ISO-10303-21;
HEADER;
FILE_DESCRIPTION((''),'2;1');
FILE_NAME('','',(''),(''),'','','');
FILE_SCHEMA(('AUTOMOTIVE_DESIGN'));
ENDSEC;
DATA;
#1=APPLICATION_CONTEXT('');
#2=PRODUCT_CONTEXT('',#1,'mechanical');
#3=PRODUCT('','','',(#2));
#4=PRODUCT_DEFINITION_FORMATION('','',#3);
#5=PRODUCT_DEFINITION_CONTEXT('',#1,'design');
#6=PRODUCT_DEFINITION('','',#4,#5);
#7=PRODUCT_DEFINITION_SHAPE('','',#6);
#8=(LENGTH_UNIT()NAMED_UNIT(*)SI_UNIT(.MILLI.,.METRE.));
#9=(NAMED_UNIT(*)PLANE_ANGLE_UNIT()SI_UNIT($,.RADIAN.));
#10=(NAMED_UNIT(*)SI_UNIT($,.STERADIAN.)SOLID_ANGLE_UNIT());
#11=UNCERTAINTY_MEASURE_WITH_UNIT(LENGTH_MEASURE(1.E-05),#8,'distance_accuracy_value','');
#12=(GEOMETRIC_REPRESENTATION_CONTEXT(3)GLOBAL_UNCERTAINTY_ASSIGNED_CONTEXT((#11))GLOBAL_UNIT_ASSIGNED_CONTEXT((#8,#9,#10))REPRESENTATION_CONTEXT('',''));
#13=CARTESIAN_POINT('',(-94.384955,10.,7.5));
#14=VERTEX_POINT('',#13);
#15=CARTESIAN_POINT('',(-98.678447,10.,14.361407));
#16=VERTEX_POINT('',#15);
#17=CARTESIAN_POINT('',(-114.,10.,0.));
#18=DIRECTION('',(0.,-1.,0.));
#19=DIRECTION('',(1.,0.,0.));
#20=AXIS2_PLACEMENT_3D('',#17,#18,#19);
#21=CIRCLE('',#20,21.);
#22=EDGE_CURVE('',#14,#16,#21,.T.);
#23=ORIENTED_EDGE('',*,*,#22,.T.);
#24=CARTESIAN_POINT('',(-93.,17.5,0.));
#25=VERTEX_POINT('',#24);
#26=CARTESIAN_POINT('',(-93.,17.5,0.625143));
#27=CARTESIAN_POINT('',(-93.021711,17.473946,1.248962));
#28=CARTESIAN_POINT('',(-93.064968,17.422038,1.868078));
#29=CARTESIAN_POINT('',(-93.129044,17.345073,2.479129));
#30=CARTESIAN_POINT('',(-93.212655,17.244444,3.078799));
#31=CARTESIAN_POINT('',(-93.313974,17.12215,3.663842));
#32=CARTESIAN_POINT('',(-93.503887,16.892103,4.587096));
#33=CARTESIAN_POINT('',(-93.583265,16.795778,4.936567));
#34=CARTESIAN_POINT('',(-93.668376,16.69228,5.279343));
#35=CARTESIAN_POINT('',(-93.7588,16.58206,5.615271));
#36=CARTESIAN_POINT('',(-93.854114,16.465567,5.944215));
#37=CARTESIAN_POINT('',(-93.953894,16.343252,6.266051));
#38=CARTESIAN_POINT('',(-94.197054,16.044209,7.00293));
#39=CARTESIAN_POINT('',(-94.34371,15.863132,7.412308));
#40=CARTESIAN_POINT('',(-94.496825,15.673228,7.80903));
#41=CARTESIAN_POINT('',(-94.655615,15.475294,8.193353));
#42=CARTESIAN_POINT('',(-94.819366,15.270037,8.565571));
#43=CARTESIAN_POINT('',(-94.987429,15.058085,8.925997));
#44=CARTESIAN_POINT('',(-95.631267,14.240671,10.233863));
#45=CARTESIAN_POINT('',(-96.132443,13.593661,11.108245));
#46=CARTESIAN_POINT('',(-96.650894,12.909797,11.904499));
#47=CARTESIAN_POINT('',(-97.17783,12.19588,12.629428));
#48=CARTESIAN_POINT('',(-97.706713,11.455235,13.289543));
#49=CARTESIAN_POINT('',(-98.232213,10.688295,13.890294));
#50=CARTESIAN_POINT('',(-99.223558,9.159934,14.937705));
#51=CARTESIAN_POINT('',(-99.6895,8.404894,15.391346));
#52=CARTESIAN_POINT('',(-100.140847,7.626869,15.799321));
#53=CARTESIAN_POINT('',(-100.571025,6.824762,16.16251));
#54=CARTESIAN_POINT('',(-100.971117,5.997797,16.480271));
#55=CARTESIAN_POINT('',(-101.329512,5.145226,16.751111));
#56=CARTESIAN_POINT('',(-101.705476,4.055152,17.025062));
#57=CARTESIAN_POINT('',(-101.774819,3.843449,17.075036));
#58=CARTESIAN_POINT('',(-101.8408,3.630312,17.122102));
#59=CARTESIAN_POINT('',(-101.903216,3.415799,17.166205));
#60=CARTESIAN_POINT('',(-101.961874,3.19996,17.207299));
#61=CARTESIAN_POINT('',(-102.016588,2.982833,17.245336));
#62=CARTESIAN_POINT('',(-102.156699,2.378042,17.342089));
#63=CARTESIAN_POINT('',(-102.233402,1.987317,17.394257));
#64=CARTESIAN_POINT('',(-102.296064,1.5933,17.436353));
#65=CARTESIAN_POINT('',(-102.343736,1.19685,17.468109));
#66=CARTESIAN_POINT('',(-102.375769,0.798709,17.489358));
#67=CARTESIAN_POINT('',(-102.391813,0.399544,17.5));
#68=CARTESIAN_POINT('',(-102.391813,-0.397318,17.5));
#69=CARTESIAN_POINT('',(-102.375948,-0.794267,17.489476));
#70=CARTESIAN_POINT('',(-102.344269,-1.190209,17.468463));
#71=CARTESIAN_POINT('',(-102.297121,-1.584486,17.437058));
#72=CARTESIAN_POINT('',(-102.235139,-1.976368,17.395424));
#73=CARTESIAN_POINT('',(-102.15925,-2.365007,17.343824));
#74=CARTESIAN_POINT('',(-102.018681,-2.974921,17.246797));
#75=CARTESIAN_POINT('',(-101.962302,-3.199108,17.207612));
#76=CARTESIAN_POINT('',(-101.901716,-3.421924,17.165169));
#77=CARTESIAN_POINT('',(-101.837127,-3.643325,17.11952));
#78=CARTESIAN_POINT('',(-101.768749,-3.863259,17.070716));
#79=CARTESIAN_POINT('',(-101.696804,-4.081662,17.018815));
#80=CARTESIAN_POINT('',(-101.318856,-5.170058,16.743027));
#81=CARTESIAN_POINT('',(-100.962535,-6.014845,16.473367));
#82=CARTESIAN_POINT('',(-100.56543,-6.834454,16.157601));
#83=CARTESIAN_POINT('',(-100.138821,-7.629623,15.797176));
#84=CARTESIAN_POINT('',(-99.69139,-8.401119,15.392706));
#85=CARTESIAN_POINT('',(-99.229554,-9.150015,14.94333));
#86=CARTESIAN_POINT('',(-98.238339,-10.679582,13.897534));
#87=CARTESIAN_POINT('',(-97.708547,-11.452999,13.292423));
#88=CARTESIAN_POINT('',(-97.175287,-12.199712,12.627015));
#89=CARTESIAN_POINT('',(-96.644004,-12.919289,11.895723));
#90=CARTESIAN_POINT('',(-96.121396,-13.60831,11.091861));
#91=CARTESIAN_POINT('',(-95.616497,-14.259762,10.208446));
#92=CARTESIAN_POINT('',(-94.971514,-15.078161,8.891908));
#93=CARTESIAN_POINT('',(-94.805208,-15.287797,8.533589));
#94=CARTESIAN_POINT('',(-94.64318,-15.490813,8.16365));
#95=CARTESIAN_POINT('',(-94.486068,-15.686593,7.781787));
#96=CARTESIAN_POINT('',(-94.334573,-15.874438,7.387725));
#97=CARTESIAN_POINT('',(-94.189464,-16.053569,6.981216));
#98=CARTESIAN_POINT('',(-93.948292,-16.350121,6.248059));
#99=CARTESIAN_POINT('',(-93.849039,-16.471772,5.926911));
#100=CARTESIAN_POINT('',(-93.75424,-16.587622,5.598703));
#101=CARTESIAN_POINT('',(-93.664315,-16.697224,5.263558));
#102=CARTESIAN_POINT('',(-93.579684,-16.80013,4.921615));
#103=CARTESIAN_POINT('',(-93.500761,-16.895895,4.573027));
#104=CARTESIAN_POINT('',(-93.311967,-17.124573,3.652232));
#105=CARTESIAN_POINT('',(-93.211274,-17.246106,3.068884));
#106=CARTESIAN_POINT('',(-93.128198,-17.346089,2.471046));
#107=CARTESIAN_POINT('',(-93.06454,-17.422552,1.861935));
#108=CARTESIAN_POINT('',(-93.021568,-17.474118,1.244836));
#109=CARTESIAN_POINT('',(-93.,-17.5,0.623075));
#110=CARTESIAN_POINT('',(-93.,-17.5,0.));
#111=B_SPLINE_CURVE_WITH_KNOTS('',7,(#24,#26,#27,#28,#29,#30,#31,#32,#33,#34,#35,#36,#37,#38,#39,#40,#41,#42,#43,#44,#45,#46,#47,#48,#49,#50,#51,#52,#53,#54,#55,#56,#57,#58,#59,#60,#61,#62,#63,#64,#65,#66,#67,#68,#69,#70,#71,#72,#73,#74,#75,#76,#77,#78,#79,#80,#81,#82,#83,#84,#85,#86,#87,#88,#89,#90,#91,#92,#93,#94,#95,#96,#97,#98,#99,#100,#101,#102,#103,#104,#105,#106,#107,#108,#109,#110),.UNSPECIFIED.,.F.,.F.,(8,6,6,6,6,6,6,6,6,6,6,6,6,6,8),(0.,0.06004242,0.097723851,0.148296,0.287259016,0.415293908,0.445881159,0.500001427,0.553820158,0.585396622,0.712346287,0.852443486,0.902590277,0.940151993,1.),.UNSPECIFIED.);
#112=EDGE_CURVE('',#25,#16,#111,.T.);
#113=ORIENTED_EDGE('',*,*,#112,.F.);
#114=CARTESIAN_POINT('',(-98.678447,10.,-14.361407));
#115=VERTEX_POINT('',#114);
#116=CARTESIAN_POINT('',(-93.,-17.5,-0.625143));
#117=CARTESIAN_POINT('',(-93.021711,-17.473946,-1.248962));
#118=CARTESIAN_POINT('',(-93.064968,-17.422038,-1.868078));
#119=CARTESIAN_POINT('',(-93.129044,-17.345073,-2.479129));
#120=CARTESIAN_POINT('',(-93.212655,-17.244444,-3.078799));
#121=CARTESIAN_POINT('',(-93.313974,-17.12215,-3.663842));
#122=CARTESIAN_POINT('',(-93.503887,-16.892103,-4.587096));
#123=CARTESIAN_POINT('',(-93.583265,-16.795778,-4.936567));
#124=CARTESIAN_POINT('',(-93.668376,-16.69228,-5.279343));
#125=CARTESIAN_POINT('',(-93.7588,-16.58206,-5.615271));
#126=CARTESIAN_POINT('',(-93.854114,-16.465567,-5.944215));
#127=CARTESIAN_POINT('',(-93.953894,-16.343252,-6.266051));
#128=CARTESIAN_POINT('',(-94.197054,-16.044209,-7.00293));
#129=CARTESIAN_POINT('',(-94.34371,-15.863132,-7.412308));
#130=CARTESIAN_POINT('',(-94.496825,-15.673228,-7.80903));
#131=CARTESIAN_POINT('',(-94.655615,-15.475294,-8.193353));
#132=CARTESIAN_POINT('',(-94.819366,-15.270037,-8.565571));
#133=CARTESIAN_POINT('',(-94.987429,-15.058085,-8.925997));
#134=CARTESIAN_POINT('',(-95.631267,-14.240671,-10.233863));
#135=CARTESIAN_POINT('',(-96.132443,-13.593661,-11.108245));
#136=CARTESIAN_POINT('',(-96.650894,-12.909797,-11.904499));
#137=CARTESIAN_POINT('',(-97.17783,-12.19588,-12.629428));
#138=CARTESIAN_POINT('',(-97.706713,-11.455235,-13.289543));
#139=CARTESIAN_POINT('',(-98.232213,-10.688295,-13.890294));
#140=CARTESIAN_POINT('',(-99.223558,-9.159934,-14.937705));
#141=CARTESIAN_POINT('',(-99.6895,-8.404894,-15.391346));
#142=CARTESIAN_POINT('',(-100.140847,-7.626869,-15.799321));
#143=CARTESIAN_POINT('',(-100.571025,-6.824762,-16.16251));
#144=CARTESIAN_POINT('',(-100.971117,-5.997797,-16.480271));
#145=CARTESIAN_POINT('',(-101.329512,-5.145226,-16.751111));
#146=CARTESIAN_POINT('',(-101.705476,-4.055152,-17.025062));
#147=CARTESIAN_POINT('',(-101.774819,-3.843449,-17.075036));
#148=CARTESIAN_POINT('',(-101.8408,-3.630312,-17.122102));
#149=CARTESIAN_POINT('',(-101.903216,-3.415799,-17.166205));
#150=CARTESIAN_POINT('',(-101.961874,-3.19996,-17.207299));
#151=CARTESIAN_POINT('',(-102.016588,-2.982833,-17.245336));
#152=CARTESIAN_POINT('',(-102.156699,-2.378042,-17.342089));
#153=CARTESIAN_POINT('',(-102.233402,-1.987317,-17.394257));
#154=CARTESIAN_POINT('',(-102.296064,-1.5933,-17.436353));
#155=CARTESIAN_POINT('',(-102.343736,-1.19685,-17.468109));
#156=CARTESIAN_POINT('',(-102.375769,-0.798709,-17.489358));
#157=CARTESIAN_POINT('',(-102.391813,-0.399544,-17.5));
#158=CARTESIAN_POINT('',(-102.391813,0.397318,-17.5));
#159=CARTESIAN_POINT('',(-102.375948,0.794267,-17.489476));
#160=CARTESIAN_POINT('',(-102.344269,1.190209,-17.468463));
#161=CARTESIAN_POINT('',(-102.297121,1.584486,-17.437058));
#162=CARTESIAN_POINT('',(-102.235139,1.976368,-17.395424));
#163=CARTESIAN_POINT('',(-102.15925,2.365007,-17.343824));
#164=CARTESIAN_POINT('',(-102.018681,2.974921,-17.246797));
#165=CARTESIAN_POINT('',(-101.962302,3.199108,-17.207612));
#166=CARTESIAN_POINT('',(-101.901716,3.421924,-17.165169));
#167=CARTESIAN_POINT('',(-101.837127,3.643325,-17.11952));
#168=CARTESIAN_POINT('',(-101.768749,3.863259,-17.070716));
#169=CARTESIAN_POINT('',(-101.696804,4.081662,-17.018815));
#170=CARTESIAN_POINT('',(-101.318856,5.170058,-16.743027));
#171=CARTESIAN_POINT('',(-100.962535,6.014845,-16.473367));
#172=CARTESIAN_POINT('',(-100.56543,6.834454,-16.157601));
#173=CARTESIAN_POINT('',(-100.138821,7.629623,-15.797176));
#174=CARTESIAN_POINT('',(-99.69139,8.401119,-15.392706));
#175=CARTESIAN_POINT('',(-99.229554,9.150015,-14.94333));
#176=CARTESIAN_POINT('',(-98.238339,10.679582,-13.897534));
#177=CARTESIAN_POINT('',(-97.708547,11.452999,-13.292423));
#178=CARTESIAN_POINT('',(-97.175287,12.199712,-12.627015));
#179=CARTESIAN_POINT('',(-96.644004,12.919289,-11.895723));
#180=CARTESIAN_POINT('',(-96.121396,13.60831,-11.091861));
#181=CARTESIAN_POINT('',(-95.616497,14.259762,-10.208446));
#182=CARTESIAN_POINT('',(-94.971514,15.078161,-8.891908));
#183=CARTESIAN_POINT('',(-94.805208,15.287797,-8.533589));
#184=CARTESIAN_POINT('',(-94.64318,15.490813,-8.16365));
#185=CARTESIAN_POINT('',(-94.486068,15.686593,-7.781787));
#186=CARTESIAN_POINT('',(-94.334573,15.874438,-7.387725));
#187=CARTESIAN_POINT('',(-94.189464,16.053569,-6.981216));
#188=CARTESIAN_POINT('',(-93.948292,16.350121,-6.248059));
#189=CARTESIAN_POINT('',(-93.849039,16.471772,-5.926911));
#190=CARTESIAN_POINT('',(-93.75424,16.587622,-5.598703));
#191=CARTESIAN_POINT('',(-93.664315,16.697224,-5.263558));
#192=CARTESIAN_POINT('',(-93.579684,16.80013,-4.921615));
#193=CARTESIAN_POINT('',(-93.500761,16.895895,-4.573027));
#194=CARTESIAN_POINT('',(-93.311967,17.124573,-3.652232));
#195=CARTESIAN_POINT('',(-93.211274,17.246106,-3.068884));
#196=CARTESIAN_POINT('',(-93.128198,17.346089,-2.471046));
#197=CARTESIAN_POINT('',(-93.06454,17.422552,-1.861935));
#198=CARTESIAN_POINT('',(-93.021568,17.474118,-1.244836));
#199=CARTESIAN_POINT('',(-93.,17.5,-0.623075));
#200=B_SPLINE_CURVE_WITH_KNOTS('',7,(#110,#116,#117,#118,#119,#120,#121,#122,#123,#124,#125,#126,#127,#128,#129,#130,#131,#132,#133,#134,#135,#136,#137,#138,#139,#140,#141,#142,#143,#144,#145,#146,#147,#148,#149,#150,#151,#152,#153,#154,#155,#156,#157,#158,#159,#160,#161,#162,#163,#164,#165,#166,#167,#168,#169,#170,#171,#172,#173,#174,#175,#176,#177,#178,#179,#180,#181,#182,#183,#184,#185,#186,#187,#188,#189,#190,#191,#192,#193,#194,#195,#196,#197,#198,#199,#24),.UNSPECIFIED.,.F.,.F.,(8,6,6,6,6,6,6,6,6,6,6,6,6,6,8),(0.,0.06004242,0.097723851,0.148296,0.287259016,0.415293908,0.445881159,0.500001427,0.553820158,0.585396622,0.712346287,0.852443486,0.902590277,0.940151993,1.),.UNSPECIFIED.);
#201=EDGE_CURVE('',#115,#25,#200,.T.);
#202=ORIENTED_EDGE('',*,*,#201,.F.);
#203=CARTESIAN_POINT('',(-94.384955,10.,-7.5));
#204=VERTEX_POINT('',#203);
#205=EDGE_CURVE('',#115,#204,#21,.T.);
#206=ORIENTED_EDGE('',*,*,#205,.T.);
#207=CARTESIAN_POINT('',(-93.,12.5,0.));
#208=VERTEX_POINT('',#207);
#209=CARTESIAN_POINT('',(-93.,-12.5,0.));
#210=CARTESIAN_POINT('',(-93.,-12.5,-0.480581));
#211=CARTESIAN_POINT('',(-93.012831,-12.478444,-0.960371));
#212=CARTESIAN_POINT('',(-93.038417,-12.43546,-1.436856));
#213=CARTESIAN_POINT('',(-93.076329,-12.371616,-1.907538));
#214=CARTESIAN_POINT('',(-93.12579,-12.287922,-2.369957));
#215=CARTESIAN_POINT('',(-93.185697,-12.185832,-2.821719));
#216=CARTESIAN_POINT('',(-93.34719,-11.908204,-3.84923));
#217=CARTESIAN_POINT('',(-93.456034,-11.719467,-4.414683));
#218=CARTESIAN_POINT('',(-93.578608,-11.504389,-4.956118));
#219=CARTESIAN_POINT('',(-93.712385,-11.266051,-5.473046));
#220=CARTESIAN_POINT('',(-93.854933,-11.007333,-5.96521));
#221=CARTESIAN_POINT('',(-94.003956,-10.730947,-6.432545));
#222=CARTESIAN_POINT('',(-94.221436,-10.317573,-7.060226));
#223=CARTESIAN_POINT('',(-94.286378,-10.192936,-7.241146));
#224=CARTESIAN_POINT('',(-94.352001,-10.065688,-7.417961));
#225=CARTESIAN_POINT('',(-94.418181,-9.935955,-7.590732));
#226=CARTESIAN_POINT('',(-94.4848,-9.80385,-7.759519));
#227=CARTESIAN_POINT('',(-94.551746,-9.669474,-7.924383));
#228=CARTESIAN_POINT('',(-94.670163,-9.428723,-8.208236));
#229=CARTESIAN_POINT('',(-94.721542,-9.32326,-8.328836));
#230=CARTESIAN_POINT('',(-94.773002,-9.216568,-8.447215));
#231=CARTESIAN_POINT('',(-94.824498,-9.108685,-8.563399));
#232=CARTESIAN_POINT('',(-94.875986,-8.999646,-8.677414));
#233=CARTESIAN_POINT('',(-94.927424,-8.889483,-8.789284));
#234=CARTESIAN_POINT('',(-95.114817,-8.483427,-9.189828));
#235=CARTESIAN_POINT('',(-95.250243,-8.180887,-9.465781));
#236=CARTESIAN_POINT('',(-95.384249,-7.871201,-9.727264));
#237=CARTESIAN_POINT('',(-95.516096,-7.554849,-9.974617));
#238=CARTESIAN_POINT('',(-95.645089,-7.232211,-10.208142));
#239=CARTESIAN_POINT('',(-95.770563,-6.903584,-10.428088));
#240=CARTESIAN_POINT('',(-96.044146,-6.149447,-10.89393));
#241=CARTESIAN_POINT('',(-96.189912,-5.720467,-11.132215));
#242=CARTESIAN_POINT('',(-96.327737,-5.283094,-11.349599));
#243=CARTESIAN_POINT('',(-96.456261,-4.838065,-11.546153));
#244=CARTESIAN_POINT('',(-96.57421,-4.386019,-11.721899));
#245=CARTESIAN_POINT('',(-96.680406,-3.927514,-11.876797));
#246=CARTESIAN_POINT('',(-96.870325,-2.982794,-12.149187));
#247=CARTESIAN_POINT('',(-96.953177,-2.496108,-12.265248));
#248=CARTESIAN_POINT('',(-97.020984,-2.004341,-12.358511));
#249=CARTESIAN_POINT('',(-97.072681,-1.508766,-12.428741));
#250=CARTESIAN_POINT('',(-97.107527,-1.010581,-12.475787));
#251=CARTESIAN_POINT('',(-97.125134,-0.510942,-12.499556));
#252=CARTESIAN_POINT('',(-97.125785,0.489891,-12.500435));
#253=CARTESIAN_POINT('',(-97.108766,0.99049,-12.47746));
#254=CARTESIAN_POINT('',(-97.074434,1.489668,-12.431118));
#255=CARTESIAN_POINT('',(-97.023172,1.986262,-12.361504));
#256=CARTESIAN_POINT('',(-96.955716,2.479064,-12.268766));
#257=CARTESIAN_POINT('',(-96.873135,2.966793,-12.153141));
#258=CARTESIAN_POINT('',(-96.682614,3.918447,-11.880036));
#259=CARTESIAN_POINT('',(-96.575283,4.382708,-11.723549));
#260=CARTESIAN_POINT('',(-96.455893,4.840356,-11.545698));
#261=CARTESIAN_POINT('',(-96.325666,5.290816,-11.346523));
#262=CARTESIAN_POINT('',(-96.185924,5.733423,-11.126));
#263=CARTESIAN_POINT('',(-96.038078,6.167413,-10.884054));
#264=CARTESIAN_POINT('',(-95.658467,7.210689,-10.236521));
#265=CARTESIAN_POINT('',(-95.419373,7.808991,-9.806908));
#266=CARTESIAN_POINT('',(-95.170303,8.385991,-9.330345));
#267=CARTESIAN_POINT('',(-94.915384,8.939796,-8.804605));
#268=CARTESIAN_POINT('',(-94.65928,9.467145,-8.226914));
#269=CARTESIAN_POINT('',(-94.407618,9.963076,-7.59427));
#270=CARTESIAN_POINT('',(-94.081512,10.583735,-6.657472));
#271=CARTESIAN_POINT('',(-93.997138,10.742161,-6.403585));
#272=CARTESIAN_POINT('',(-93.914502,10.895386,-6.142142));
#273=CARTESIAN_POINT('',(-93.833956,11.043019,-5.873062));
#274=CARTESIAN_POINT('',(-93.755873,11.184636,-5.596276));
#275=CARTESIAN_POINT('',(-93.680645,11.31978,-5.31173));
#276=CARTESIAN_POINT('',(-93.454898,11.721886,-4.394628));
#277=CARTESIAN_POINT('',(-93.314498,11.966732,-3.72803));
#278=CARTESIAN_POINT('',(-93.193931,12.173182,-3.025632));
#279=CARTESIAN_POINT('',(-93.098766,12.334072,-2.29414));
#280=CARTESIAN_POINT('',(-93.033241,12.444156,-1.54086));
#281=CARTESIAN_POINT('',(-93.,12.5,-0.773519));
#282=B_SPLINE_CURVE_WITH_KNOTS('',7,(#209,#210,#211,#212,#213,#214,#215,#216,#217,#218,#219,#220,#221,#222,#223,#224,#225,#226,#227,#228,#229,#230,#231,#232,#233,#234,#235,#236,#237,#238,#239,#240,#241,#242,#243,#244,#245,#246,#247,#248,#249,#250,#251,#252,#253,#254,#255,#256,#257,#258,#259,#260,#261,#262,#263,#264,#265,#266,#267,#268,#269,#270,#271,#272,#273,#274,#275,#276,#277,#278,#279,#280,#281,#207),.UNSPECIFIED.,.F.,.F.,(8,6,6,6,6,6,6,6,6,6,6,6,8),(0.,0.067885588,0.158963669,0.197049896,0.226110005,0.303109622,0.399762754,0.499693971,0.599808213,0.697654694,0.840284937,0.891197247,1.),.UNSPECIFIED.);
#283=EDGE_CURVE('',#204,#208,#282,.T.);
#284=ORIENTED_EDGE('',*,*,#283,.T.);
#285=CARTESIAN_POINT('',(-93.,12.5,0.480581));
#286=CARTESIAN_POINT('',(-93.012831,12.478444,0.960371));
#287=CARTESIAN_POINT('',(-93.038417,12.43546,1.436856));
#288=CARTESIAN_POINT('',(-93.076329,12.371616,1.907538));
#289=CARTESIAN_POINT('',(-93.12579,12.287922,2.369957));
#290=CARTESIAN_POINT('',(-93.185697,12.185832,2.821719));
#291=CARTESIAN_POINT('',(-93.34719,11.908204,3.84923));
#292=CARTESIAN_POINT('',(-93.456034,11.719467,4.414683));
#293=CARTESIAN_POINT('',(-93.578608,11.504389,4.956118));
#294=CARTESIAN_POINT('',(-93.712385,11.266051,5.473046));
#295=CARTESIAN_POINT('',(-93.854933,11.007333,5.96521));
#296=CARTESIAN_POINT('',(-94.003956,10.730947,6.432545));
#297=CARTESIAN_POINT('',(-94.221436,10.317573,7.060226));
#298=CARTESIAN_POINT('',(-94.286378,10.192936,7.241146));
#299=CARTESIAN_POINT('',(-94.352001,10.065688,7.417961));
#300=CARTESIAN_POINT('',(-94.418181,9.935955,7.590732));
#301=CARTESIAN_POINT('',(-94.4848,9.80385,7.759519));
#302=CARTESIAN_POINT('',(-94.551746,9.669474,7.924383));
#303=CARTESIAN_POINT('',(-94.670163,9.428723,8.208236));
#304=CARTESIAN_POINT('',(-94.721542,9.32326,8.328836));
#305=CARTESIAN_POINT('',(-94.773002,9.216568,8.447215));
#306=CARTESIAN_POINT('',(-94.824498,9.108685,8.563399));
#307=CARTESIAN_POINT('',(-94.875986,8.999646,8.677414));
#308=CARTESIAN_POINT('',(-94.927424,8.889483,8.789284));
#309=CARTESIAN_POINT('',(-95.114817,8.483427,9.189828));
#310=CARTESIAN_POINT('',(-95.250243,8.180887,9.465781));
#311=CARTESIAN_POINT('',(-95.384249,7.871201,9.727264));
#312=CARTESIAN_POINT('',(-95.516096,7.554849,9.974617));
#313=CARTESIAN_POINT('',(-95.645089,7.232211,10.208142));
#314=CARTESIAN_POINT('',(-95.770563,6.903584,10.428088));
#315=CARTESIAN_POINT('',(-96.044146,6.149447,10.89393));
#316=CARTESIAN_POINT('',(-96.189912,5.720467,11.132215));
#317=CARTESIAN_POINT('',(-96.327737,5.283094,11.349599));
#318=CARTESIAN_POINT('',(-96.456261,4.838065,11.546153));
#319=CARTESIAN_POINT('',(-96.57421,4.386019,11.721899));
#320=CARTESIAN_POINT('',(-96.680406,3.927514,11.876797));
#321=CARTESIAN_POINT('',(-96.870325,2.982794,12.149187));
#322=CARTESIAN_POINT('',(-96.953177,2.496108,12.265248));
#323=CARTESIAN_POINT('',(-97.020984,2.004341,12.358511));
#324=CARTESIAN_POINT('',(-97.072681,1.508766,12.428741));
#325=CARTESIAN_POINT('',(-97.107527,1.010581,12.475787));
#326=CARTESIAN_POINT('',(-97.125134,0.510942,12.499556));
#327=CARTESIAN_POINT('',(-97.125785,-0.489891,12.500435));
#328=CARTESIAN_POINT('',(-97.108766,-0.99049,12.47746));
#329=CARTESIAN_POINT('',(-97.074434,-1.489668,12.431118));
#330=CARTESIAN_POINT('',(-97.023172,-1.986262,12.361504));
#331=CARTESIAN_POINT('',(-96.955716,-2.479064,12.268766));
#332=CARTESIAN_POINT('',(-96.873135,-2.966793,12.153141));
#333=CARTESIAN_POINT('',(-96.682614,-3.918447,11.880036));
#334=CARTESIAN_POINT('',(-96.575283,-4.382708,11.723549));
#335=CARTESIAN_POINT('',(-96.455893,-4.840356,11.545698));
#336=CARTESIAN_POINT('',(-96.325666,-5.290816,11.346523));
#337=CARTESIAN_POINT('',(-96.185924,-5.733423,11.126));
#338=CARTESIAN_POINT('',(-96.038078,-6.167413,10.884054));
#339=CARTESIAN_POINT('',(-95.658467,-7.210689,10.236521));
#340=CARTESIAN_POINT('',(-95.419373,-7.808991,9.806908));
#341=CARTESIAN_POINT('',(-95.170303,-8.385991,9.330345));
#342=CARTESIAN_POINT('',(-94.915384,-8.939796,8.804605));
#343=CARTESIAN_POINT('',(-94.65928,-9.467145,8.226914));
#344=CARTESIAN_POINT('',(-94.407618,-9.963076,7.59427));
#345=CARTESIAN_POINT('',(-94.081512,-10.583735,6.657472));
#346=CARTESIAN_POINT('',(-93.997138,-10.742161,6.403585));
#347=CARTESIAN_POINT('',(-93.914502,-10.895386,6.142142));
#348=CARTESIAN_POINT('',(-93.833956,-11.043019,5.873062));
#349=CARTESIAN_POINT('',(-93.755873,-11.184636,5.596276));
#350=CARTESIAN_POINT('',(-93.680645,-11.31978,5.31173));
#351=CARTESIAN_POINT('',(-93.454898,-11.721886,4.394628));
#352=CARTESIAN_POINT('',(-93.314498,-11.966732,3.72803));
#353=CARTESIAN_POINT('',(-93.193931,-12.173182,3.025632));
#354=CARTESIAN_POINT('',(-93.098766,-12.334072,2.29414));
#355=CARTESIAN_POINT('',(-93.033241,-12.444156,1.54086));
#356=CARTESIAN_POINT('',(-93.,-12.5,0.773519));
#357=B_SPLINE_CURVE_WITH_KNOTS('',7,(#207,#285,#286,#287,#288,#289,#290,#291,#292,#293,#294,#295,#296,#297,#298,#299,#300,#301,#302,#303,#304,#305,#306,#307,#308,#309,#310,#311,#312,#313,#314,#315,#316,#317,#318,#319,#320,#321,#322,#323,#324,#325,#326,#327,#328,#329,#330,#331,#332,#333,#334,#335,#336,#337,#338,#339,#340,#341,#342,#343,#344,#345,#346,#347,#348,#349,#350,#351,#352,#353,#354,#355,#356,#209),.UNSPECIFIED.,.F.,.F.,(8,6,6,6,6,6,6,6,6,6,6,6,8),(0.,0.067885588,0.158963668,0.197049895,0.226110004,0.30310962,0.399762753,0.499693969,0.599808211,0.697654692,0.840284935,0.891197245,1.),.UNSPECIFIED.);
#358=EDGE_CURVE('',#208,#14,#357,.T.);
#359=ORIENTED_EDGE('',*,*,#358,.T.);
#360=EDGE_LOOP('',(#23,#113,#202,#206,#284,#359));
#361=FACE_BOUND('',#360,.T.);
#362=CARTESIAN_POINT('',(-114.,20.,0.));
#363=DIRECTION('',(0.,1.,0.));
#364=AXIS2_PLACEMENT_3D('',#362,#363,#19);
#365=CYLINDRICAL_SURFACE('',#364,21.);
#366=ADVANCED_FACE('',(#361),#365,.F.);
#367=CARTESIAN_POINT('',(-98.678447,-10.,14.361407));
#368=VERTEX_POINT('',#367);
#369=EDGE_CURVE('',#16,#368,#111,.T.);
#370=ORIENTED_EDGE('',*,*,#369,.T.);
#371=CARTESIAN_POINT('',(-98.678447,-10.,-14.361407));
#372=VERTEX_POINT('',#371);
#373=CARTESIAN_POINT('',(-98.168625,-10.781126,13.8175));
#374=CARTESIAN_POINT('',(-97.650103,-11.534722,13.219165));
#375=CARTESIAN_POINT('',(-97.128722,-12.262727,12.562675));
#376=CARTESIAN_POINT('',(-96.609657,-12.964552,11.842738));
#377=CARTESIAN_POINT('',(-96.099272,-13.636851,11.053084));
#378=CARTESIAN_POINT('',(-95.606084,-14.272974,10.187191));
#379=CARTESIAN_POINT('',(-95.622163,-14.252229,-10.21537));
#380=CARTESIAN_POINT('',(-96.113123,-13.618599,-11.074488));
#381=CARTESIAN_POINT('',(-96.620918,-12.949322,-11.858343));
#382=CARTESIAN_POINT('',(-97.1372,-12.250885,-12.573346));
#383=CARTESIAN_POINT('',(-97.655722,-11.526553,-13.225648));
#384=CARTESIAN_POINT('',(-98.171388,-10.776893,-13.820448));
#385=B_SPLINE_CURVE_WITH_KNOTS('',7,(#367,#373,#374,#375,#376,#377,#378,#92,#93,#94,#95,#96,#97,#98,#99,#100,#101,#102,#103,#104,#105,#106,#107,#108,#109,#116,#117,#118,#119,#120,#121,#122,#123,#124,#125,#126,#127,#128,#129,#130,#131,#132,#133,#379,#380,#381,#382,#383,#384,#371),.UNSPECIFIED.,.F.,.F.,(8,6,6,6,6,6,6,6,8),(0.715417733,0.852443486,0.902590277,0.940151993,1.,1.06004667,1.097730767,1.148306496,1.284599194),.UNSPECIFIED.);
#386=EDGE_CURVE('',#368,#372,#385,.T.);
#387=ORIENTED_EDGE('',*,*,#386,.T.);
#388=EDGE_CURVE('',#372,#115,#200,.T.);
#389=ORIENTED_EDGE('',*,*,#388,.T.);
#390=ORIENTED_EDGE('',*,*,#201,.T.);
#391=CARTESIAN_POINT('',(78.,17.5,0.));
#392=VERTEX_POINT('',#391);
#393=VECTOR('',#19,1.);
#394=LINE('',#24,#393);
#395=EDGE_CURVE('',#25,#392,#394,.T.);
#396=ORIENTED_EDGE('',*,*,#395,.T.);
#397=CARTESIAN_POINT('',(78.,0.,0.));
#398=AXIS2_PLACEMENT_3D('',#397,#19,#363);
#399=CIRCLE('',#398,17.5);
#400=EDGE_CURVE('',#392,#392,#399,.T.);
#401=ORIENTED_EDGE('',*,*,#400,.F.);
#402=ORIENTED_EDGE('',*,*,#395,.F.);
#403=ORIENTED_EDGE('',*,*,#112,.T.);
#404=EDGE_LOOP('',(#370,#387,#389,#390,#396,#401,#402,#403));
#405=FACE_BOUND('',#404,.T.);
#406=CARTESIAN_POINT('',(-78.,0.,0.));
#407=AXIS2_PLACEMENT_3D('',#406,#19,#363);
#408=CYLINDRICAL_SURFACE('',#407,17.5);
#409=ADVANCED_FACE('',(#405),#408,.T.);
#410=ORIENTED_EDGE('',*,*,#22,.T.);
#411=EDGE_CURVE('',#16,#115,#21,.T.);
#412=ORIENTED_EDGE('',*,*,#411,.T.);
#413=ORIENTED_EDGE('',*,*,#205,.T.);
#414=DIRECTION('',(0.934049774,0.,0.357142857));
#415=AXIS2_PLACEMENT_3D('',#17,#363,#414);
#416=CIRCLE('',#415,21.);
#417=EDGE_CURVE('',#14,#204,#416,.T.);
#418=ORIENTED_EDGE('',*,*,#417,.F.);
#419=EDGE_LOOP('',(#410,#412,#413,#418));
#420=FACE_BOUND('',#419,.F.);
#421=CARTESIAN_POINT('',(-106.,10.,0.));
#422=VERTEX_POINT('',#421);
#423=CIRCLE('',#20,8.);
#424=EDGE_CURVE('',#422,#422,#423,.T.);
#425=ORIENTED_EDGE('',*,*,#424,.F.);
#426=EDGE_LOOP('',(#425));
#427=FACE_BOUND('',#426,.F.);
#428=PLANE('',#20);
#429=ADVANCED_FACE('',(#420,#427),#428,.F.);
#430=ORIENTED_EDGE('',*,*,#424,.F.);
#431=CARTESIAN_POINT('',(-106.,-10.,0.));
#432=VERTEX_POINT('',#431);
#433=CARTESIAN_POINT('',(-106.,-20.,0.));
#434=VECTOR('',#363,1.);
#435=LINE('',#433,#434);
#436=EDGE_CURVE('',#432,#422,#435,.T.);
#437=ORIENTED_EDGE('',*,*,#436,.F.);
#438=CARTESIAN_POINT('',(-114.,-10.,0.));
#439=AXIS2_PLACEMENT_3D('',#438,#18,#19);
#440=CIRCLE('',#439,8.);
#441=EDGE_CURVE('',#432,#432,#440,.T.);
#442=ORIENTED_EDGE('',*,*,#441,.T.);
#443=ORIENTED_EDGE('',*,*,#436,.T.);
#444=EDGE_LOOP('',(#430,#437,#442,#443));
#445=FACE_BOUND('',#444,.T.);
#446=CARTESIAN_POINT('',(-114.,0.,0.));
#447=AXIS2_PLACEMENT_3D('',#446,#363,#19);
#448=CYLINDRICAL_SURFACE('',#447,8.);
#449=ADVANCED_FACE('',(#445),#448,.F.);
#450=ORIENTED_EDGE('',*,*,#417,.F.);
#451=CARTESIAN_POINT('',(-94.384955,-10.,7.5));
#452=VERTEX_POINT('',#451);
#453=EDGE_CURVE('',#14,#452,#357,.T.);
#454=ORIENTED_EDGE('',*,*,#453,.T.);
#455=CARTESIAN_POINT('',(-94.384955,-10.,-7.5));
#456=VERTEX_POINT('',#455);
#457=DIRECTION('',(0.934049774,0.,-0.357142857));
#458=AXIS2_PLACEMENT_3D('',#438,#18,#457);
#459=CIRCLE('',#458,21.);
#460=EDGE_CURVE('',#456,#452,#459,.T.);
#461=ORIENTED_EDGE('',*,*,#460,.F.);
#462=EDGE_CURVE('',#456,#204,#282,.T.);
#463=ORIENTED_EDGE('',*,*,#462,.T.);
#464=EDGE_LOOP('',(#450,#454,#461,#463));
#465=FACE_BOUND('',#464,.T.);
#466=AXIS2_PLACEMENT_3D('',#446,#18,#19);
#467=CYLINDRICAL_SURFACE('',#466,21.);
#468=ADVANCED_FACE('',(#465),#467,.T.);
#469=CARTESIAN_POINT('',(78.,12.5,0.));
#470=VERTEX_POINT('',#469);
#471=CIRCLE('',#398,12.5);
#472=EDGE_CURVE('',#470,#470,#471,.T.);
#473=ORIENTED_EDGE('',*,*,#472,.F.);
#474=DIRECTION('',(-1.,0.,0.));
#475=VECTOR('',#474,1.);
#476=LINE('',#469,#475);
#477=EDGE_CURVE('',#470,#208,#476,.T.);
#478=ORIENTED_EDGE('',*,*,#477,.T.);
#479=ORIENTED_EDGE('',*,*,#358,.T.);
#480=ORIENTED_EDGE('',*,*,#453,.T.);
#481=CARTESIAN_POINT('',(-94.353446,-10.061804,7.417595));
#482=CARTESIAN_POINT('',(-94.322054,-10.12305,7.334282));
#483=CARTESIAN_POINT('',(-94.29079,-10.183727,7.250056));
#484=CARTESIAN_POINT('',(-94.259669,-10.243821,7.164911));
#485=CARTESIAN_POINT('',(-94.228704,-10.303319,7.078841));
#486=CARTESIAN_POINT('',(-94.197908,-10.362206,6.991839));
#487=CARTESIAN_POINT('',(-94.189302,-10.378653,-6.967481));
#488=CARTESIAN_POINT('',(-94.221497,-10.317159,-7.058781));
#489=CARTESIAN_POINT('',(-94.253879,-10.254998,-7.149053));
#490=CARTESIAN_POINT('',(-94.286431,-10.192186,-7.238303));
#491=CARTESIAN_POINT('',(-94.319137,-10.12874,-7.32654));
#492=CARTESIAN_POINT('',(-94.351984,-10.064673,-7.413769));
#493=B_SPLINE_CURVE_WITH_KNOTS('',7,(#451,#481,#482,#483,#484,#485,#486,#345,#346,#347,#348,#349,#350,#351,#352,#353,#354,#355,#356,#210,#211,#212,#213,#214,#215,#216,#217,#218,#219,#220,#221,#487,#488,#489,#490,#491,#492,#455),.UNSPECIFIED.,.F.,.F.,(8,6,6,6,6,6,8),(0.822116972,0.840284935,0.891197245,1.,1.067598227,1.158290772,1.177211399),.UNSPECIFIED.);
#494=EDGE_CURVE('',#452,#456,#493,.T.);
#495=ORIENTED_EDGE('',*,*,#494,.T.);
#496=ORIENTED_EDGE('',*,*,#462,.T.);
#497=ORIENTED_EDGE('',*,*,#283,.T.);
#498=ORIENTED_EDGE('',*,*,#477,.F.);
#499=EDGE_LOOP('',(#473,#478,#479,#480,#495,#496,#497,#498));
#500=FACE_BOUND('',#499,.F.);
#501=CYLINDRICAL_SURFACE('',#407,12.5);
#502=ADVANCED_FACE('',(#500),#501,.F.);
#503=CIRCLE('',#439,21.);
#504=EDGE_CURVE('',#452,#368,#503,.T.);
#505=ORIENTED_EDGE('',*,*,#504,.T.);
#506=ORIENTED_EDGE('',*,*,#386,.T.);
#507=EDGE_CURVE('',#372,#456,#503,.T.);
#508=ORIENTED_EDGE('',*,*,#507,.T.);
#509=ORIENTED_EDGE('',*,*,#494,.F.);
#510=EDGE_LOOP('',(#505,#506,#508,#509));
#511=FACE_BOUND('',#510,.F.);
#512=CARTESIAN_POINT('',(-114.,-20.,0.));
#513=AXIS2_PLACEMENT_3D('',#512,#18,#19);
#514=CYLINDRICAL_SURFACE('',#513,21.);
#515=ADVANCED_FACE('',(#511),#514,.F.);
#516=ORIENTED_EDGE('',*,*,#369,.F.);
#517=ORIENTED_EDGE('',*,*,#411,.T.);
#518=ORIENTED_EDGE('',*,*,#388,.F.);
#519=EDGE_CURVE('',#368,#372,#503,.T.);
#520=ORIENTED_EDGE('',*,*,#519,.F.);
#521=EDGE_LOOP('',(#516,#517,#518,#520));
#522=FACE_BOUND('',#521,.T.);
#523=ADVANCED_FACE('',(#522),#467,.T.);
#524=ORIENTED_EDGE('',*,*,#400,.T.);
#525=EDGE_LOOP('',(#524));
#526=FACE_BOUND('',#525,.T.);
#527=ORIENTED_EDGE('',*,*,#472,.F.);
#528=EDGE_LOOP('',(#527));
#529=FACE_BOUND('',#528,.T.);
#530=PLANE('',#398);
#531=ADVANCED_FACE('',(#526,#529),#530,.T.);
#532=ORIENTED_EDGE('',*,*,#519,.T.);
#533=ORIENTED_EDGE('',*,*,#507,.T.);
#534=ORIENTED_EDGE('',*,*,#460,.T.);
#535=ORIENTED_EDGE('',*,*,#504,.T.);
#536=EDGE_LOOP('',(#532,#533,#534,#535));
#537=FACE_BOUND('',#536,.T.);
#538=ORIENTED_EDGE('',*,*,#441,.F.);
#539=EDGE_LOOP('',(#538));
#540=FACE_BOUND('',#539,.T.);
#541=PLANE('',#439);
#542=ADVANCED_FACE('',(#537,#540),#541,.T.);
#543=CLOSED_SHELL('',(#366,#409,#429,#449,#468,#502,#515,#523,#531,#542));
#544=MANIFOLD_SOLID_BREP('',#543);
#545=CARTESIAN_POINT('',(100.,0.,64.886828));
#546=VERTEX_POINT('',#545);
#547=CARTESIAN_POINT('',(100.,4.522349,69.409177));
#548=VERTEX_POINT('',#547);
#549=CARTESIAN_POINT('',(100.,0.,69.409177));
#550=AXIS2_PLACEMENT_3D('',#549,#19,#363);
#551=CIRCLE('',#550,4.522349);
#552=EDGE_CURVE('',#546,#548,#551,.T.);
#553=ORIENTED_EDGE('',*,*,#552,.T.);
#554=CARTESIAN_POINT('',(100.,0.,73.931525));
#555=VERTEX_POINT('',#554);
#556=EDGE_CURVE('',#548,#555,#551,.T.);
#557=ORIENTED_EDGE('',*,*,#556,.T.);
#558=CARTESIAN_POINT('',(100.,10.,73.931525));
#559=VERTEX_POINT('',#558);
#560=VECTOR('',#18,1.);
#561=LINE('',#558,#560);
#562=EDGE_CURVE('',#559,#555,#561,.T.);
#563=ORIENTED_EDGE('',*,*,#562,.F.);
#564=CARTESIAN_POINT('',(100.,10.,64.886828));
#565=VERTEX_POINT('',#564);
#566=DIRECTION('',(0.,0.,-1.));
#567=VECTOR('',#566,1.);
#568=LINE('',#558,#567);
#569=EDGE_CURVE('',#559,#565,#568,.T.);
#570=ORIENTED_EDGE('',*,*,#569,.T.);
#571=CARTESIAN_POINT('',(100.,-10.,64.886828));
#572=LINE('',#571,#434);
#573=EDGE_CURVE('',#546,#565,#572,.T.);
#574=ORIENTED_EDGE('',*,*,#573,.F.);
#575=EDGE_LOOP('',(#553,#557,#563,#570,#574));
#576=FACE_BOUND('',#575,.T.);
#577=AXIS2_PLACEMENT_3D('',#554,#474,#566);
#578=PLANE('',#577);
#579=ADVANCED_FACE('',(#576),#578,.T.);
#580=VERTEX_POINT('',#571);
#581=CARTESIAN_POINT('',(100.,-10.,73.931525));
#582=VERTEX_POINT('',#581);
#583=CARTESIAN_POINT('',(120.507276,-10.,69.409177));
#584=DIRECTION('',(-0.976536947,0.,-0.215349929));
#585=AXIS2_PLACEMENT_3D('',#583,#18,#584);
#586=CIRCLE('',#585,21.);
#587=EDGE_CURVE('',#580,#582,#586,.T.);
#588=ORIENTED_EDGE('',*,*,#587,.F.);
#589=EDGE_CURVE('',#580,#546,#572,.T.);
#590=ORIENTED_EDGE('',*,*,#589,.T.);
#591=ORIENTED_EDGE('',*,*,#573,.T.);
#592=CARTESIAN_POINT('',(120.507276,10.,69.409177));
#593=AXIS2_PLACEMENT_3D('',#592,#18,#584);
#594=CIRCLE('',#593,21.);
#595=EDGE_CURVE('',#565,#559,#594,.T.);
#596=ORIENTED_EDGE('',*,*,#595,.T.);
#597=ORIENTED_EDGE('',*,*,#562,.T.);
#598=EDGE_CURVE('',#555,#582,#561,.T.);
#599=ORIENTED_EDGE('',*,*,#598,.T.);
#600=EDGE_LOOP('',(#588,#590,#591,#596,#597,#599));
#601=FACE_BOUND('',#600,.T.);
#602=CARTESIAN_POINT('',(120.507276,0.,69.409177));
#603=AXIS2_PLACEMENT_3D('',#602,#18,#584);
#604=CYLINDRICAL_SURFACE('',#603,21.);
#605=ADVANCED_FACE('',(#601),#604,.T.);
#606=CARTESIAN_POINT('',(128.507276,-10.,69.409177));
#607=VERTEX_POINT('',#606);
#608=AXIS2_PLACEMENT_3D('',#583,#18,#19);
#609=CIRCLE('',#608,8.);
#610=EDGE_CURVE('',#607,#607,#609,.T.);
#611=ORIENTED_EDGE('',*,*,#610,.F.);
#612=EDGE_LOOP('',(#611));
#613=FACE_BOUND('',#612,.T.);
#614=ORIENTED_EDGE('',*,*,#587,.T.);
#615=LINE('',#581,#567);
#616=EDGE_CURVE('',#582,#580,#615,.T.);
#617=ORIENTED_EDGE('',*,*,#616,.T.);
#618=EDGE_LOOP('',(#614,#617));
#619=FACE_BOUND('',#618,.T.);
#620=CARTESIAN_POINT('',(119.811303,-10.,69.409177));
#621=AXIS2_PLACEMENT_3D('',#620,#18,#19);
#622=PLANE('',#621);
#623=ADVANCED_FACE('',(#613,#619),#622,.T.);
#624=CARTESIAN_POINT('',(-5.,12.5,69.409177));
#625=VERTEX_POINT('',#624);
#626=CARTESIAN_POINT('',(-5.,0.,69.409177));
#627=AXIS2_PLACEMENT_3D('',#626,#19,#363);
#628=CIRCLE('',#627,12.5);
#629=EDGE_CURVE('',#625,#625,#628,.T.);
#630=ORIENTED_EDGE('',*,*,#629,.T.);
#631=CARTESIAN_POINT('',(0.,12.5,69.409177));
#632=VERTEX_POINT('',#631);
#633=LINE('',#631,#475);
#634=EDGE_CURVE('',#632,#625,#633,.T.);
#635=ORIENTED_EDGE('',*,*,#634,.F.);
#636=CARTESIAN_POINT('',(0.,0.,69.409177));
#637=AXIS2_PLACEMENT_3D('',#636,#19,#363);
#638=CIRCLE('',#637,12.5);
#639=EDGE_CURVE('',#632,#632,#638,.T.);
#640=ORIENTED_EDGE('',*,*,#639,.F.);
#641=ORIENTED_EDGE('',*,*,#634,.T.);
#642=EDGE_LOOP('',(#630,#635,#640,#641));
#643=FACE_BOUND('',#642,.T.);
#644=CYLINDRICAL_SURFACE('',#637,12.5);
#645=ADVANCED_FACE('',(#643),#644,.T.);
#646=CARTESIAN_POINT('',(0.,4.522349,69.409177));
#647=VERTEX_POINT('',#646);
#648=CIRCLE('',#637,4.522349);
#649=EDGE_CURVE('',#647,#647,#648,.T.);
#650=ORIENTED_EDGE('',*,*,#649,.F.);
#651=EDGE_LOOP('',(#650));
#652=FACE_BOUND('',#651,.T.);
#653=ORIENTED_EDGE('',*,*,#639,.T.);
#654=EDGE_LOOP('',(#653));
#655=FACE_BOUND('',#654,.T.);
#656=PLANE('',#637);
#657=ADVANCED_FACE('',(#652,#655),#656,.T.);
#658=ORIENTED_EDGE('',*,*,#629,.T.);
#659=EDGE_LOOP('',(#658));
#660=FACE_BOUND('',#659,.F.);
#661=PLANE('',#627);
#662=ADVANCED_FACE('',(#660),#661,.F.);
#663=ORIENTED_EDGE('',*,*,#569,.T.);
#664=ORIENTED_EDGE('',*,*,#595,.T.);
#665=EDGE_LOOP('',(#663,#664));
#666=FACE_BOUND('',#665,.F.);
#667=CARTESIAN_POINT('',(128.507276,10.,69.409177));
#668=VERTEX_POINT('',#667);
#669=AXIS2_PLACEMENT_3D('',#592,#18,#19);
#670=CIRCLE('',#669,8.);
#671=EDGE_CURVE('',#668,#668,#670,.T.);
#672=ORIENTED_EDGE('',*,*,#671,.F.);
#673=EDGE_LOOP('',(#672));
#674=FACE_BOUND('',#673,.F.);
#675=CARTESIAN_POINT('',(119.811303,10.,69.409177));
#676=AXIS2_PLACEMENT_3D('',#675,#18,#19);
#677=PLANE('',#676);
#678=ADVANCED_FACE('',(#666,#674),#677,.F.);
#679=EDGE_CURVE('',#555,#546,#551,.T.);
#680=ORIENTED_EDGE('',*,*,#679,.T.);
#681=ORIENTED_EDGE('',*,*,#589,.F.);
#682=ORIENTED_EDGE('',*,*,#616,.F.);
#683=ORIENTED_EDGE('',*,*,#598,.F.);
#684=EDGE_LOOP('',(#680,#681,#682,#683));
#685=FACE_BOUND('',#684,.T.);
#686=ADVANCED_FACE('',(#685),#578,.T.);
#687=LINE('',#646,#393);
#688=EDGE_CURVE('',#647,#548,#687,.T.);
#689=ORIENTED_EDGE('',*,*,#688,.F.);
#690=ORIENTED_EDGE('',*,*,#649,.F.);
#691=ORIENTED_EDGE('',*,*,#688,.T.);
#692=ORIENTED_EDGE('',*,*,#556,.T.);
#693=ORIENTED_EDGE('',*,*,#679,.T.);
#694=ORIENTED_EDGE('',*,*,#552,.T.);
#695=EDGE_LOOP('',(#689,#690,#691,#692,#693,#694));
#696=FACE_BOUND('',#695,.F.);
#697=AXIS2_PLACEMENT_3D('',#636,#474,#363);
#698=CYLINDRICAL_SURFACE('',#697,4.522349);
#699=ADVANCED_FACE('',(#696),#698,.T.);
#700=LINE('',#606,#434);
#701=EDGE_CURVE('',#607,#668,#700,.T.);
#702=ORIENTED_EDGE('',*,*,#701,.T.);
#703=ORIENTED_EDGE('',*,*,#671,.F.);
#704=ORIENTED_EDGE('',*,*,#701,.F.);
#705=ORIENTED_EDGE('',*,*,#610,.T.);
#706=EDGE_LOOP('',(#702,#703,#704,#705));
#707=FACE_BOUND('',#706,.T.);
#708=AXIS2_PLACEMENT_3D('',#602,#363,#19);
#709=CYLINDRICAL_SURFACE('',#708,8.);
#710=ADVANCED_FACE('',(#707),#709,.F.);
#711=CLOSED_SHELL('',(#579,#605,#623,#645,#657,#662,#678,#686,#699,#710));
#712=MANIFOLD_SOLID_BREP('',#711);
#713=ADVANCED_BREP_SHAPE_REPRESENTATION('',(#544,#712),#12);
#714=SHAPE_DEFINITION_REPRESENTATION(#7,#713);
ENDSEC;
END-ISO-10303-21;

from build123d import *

# Parameters (mm, degrees)
F0_R      = 17.5
F0_R_2    = 12.5
F1_DEPTH  = 78
F2_R      = 21
F2_R_2    = 8
F3_DEPTH  = 20
F4_DEPTH  = 28
F5_R      = 4.5223485004
F6_DEPTH  = 100
F5_R_2    = 12.5
F6_FACE_R = 4.5223485004
F7_DEPTH  = 5
F9_DEPTH  = 10
F10_DEPTH = 10
F8_R      = 8
F11_DEPTH = 10


with BuildPart() as f1:
    # F0 (on Right) → F1 (new body, symmetric)
    with BuildSketch(Plane.YZ):
        Circle(F0_R)
        Circle(F0_R_2, mode=Mode.SUBTRACT)
    extrude(amount=F1_DEPTH, both=True)

    # F4 (add, through all): a face of the model
    f4_faces = [f1.faces().sort_by_distance(p)[0] for p in [
        (-78, -17.0050252532, 0),
    ]]


with BuildPart() as f3:
    # F2 (on Front) → F3 (new body, symmetric)
    with BuildSketch(Plane.XZ):
        with Locations((-114, 0)):
            Circle(F2_R)
        with Locations((-114, 0)):
            Circle(F2_R_2, mode=Mode.SUBTRACT)
    extrude(amount=F3_DEPTH, both=True)


with BuildPart() as f1_1:
    add(f1.part)

    add(f3.part)  # F4 merges F3
    extrude(f4_faces, amount=F4_DEPTH)

    # F9 (cut): a face of the model
    f9_faces = [f1_1.faces().sort_by_distance(p)[0] for p in [
        (-134.4060303038, 20, 0),
    ]]
    extrude(f9_faces, amount=-F9_DEPTH, mode=Mode.SUBTRACT)

    # F10 (cut): a face of the model
    f10_faces = [f1_1.faces().sort_by_distance(p)[0] for p in [
        (-134.4060303038, -20, 0),
    ]]
    extrude(f10_faces, amount=-F10_DEPTH, mode=Mode.SUBTRACT)


with BuildPart() as f6:
    # F5 (on Right) → F6 (new body)
    with BuildSketch(Plane.YZ):
        with Locations((0, 69.4091767073)):
            Circle(F5_R)
    extrude(amount=F6_DEPTH)

    # F5 (on Right) + F6_face (on face) → F7 (join)
    with BuildSketch(Plane.YZ):
        with Locations((0, 69.4091767073)):
            Circle(F5_R_2)
        with Locations((0, 69.4091767073)):
            Circle(F5_R, mode=Mode.SUBTRACT)
    with BuildSketch(Plane(origin=(0, 0, 69.4091767073), x_dir=(0, 1, 0), z_dir=(-1, 0, 0))):
        Circle(F6_FACE_R)
    extrude(amount=-F7_DEPTH, dir=(1, 0, 0))

    # F8 (on Front) → F11 (join, symmetric)
    with BuildSketch(Plane.XZ):
        with BuildLine():
            ThreePointArc((100, 64.8868282069), (122.7818314974, 48.5327211473), (141.5072758806, 69.4091767073))
            ThreePointArc((141.5072758806, 69.4091767073), (122.7818314974, 90.2856322672), (100, 73.9315252076))
            Line((100, 73.9315252076), (100, 64.8868282069))
        make_face()
        with Locations((120.5072758806, 69.4091767073)):
            Circle(F8_R, mode=Mode.SUBTRACT)
    extrude(amount=F11_DEPTH, both=True)


solid = Compound([f1_1.part, f6.part])
